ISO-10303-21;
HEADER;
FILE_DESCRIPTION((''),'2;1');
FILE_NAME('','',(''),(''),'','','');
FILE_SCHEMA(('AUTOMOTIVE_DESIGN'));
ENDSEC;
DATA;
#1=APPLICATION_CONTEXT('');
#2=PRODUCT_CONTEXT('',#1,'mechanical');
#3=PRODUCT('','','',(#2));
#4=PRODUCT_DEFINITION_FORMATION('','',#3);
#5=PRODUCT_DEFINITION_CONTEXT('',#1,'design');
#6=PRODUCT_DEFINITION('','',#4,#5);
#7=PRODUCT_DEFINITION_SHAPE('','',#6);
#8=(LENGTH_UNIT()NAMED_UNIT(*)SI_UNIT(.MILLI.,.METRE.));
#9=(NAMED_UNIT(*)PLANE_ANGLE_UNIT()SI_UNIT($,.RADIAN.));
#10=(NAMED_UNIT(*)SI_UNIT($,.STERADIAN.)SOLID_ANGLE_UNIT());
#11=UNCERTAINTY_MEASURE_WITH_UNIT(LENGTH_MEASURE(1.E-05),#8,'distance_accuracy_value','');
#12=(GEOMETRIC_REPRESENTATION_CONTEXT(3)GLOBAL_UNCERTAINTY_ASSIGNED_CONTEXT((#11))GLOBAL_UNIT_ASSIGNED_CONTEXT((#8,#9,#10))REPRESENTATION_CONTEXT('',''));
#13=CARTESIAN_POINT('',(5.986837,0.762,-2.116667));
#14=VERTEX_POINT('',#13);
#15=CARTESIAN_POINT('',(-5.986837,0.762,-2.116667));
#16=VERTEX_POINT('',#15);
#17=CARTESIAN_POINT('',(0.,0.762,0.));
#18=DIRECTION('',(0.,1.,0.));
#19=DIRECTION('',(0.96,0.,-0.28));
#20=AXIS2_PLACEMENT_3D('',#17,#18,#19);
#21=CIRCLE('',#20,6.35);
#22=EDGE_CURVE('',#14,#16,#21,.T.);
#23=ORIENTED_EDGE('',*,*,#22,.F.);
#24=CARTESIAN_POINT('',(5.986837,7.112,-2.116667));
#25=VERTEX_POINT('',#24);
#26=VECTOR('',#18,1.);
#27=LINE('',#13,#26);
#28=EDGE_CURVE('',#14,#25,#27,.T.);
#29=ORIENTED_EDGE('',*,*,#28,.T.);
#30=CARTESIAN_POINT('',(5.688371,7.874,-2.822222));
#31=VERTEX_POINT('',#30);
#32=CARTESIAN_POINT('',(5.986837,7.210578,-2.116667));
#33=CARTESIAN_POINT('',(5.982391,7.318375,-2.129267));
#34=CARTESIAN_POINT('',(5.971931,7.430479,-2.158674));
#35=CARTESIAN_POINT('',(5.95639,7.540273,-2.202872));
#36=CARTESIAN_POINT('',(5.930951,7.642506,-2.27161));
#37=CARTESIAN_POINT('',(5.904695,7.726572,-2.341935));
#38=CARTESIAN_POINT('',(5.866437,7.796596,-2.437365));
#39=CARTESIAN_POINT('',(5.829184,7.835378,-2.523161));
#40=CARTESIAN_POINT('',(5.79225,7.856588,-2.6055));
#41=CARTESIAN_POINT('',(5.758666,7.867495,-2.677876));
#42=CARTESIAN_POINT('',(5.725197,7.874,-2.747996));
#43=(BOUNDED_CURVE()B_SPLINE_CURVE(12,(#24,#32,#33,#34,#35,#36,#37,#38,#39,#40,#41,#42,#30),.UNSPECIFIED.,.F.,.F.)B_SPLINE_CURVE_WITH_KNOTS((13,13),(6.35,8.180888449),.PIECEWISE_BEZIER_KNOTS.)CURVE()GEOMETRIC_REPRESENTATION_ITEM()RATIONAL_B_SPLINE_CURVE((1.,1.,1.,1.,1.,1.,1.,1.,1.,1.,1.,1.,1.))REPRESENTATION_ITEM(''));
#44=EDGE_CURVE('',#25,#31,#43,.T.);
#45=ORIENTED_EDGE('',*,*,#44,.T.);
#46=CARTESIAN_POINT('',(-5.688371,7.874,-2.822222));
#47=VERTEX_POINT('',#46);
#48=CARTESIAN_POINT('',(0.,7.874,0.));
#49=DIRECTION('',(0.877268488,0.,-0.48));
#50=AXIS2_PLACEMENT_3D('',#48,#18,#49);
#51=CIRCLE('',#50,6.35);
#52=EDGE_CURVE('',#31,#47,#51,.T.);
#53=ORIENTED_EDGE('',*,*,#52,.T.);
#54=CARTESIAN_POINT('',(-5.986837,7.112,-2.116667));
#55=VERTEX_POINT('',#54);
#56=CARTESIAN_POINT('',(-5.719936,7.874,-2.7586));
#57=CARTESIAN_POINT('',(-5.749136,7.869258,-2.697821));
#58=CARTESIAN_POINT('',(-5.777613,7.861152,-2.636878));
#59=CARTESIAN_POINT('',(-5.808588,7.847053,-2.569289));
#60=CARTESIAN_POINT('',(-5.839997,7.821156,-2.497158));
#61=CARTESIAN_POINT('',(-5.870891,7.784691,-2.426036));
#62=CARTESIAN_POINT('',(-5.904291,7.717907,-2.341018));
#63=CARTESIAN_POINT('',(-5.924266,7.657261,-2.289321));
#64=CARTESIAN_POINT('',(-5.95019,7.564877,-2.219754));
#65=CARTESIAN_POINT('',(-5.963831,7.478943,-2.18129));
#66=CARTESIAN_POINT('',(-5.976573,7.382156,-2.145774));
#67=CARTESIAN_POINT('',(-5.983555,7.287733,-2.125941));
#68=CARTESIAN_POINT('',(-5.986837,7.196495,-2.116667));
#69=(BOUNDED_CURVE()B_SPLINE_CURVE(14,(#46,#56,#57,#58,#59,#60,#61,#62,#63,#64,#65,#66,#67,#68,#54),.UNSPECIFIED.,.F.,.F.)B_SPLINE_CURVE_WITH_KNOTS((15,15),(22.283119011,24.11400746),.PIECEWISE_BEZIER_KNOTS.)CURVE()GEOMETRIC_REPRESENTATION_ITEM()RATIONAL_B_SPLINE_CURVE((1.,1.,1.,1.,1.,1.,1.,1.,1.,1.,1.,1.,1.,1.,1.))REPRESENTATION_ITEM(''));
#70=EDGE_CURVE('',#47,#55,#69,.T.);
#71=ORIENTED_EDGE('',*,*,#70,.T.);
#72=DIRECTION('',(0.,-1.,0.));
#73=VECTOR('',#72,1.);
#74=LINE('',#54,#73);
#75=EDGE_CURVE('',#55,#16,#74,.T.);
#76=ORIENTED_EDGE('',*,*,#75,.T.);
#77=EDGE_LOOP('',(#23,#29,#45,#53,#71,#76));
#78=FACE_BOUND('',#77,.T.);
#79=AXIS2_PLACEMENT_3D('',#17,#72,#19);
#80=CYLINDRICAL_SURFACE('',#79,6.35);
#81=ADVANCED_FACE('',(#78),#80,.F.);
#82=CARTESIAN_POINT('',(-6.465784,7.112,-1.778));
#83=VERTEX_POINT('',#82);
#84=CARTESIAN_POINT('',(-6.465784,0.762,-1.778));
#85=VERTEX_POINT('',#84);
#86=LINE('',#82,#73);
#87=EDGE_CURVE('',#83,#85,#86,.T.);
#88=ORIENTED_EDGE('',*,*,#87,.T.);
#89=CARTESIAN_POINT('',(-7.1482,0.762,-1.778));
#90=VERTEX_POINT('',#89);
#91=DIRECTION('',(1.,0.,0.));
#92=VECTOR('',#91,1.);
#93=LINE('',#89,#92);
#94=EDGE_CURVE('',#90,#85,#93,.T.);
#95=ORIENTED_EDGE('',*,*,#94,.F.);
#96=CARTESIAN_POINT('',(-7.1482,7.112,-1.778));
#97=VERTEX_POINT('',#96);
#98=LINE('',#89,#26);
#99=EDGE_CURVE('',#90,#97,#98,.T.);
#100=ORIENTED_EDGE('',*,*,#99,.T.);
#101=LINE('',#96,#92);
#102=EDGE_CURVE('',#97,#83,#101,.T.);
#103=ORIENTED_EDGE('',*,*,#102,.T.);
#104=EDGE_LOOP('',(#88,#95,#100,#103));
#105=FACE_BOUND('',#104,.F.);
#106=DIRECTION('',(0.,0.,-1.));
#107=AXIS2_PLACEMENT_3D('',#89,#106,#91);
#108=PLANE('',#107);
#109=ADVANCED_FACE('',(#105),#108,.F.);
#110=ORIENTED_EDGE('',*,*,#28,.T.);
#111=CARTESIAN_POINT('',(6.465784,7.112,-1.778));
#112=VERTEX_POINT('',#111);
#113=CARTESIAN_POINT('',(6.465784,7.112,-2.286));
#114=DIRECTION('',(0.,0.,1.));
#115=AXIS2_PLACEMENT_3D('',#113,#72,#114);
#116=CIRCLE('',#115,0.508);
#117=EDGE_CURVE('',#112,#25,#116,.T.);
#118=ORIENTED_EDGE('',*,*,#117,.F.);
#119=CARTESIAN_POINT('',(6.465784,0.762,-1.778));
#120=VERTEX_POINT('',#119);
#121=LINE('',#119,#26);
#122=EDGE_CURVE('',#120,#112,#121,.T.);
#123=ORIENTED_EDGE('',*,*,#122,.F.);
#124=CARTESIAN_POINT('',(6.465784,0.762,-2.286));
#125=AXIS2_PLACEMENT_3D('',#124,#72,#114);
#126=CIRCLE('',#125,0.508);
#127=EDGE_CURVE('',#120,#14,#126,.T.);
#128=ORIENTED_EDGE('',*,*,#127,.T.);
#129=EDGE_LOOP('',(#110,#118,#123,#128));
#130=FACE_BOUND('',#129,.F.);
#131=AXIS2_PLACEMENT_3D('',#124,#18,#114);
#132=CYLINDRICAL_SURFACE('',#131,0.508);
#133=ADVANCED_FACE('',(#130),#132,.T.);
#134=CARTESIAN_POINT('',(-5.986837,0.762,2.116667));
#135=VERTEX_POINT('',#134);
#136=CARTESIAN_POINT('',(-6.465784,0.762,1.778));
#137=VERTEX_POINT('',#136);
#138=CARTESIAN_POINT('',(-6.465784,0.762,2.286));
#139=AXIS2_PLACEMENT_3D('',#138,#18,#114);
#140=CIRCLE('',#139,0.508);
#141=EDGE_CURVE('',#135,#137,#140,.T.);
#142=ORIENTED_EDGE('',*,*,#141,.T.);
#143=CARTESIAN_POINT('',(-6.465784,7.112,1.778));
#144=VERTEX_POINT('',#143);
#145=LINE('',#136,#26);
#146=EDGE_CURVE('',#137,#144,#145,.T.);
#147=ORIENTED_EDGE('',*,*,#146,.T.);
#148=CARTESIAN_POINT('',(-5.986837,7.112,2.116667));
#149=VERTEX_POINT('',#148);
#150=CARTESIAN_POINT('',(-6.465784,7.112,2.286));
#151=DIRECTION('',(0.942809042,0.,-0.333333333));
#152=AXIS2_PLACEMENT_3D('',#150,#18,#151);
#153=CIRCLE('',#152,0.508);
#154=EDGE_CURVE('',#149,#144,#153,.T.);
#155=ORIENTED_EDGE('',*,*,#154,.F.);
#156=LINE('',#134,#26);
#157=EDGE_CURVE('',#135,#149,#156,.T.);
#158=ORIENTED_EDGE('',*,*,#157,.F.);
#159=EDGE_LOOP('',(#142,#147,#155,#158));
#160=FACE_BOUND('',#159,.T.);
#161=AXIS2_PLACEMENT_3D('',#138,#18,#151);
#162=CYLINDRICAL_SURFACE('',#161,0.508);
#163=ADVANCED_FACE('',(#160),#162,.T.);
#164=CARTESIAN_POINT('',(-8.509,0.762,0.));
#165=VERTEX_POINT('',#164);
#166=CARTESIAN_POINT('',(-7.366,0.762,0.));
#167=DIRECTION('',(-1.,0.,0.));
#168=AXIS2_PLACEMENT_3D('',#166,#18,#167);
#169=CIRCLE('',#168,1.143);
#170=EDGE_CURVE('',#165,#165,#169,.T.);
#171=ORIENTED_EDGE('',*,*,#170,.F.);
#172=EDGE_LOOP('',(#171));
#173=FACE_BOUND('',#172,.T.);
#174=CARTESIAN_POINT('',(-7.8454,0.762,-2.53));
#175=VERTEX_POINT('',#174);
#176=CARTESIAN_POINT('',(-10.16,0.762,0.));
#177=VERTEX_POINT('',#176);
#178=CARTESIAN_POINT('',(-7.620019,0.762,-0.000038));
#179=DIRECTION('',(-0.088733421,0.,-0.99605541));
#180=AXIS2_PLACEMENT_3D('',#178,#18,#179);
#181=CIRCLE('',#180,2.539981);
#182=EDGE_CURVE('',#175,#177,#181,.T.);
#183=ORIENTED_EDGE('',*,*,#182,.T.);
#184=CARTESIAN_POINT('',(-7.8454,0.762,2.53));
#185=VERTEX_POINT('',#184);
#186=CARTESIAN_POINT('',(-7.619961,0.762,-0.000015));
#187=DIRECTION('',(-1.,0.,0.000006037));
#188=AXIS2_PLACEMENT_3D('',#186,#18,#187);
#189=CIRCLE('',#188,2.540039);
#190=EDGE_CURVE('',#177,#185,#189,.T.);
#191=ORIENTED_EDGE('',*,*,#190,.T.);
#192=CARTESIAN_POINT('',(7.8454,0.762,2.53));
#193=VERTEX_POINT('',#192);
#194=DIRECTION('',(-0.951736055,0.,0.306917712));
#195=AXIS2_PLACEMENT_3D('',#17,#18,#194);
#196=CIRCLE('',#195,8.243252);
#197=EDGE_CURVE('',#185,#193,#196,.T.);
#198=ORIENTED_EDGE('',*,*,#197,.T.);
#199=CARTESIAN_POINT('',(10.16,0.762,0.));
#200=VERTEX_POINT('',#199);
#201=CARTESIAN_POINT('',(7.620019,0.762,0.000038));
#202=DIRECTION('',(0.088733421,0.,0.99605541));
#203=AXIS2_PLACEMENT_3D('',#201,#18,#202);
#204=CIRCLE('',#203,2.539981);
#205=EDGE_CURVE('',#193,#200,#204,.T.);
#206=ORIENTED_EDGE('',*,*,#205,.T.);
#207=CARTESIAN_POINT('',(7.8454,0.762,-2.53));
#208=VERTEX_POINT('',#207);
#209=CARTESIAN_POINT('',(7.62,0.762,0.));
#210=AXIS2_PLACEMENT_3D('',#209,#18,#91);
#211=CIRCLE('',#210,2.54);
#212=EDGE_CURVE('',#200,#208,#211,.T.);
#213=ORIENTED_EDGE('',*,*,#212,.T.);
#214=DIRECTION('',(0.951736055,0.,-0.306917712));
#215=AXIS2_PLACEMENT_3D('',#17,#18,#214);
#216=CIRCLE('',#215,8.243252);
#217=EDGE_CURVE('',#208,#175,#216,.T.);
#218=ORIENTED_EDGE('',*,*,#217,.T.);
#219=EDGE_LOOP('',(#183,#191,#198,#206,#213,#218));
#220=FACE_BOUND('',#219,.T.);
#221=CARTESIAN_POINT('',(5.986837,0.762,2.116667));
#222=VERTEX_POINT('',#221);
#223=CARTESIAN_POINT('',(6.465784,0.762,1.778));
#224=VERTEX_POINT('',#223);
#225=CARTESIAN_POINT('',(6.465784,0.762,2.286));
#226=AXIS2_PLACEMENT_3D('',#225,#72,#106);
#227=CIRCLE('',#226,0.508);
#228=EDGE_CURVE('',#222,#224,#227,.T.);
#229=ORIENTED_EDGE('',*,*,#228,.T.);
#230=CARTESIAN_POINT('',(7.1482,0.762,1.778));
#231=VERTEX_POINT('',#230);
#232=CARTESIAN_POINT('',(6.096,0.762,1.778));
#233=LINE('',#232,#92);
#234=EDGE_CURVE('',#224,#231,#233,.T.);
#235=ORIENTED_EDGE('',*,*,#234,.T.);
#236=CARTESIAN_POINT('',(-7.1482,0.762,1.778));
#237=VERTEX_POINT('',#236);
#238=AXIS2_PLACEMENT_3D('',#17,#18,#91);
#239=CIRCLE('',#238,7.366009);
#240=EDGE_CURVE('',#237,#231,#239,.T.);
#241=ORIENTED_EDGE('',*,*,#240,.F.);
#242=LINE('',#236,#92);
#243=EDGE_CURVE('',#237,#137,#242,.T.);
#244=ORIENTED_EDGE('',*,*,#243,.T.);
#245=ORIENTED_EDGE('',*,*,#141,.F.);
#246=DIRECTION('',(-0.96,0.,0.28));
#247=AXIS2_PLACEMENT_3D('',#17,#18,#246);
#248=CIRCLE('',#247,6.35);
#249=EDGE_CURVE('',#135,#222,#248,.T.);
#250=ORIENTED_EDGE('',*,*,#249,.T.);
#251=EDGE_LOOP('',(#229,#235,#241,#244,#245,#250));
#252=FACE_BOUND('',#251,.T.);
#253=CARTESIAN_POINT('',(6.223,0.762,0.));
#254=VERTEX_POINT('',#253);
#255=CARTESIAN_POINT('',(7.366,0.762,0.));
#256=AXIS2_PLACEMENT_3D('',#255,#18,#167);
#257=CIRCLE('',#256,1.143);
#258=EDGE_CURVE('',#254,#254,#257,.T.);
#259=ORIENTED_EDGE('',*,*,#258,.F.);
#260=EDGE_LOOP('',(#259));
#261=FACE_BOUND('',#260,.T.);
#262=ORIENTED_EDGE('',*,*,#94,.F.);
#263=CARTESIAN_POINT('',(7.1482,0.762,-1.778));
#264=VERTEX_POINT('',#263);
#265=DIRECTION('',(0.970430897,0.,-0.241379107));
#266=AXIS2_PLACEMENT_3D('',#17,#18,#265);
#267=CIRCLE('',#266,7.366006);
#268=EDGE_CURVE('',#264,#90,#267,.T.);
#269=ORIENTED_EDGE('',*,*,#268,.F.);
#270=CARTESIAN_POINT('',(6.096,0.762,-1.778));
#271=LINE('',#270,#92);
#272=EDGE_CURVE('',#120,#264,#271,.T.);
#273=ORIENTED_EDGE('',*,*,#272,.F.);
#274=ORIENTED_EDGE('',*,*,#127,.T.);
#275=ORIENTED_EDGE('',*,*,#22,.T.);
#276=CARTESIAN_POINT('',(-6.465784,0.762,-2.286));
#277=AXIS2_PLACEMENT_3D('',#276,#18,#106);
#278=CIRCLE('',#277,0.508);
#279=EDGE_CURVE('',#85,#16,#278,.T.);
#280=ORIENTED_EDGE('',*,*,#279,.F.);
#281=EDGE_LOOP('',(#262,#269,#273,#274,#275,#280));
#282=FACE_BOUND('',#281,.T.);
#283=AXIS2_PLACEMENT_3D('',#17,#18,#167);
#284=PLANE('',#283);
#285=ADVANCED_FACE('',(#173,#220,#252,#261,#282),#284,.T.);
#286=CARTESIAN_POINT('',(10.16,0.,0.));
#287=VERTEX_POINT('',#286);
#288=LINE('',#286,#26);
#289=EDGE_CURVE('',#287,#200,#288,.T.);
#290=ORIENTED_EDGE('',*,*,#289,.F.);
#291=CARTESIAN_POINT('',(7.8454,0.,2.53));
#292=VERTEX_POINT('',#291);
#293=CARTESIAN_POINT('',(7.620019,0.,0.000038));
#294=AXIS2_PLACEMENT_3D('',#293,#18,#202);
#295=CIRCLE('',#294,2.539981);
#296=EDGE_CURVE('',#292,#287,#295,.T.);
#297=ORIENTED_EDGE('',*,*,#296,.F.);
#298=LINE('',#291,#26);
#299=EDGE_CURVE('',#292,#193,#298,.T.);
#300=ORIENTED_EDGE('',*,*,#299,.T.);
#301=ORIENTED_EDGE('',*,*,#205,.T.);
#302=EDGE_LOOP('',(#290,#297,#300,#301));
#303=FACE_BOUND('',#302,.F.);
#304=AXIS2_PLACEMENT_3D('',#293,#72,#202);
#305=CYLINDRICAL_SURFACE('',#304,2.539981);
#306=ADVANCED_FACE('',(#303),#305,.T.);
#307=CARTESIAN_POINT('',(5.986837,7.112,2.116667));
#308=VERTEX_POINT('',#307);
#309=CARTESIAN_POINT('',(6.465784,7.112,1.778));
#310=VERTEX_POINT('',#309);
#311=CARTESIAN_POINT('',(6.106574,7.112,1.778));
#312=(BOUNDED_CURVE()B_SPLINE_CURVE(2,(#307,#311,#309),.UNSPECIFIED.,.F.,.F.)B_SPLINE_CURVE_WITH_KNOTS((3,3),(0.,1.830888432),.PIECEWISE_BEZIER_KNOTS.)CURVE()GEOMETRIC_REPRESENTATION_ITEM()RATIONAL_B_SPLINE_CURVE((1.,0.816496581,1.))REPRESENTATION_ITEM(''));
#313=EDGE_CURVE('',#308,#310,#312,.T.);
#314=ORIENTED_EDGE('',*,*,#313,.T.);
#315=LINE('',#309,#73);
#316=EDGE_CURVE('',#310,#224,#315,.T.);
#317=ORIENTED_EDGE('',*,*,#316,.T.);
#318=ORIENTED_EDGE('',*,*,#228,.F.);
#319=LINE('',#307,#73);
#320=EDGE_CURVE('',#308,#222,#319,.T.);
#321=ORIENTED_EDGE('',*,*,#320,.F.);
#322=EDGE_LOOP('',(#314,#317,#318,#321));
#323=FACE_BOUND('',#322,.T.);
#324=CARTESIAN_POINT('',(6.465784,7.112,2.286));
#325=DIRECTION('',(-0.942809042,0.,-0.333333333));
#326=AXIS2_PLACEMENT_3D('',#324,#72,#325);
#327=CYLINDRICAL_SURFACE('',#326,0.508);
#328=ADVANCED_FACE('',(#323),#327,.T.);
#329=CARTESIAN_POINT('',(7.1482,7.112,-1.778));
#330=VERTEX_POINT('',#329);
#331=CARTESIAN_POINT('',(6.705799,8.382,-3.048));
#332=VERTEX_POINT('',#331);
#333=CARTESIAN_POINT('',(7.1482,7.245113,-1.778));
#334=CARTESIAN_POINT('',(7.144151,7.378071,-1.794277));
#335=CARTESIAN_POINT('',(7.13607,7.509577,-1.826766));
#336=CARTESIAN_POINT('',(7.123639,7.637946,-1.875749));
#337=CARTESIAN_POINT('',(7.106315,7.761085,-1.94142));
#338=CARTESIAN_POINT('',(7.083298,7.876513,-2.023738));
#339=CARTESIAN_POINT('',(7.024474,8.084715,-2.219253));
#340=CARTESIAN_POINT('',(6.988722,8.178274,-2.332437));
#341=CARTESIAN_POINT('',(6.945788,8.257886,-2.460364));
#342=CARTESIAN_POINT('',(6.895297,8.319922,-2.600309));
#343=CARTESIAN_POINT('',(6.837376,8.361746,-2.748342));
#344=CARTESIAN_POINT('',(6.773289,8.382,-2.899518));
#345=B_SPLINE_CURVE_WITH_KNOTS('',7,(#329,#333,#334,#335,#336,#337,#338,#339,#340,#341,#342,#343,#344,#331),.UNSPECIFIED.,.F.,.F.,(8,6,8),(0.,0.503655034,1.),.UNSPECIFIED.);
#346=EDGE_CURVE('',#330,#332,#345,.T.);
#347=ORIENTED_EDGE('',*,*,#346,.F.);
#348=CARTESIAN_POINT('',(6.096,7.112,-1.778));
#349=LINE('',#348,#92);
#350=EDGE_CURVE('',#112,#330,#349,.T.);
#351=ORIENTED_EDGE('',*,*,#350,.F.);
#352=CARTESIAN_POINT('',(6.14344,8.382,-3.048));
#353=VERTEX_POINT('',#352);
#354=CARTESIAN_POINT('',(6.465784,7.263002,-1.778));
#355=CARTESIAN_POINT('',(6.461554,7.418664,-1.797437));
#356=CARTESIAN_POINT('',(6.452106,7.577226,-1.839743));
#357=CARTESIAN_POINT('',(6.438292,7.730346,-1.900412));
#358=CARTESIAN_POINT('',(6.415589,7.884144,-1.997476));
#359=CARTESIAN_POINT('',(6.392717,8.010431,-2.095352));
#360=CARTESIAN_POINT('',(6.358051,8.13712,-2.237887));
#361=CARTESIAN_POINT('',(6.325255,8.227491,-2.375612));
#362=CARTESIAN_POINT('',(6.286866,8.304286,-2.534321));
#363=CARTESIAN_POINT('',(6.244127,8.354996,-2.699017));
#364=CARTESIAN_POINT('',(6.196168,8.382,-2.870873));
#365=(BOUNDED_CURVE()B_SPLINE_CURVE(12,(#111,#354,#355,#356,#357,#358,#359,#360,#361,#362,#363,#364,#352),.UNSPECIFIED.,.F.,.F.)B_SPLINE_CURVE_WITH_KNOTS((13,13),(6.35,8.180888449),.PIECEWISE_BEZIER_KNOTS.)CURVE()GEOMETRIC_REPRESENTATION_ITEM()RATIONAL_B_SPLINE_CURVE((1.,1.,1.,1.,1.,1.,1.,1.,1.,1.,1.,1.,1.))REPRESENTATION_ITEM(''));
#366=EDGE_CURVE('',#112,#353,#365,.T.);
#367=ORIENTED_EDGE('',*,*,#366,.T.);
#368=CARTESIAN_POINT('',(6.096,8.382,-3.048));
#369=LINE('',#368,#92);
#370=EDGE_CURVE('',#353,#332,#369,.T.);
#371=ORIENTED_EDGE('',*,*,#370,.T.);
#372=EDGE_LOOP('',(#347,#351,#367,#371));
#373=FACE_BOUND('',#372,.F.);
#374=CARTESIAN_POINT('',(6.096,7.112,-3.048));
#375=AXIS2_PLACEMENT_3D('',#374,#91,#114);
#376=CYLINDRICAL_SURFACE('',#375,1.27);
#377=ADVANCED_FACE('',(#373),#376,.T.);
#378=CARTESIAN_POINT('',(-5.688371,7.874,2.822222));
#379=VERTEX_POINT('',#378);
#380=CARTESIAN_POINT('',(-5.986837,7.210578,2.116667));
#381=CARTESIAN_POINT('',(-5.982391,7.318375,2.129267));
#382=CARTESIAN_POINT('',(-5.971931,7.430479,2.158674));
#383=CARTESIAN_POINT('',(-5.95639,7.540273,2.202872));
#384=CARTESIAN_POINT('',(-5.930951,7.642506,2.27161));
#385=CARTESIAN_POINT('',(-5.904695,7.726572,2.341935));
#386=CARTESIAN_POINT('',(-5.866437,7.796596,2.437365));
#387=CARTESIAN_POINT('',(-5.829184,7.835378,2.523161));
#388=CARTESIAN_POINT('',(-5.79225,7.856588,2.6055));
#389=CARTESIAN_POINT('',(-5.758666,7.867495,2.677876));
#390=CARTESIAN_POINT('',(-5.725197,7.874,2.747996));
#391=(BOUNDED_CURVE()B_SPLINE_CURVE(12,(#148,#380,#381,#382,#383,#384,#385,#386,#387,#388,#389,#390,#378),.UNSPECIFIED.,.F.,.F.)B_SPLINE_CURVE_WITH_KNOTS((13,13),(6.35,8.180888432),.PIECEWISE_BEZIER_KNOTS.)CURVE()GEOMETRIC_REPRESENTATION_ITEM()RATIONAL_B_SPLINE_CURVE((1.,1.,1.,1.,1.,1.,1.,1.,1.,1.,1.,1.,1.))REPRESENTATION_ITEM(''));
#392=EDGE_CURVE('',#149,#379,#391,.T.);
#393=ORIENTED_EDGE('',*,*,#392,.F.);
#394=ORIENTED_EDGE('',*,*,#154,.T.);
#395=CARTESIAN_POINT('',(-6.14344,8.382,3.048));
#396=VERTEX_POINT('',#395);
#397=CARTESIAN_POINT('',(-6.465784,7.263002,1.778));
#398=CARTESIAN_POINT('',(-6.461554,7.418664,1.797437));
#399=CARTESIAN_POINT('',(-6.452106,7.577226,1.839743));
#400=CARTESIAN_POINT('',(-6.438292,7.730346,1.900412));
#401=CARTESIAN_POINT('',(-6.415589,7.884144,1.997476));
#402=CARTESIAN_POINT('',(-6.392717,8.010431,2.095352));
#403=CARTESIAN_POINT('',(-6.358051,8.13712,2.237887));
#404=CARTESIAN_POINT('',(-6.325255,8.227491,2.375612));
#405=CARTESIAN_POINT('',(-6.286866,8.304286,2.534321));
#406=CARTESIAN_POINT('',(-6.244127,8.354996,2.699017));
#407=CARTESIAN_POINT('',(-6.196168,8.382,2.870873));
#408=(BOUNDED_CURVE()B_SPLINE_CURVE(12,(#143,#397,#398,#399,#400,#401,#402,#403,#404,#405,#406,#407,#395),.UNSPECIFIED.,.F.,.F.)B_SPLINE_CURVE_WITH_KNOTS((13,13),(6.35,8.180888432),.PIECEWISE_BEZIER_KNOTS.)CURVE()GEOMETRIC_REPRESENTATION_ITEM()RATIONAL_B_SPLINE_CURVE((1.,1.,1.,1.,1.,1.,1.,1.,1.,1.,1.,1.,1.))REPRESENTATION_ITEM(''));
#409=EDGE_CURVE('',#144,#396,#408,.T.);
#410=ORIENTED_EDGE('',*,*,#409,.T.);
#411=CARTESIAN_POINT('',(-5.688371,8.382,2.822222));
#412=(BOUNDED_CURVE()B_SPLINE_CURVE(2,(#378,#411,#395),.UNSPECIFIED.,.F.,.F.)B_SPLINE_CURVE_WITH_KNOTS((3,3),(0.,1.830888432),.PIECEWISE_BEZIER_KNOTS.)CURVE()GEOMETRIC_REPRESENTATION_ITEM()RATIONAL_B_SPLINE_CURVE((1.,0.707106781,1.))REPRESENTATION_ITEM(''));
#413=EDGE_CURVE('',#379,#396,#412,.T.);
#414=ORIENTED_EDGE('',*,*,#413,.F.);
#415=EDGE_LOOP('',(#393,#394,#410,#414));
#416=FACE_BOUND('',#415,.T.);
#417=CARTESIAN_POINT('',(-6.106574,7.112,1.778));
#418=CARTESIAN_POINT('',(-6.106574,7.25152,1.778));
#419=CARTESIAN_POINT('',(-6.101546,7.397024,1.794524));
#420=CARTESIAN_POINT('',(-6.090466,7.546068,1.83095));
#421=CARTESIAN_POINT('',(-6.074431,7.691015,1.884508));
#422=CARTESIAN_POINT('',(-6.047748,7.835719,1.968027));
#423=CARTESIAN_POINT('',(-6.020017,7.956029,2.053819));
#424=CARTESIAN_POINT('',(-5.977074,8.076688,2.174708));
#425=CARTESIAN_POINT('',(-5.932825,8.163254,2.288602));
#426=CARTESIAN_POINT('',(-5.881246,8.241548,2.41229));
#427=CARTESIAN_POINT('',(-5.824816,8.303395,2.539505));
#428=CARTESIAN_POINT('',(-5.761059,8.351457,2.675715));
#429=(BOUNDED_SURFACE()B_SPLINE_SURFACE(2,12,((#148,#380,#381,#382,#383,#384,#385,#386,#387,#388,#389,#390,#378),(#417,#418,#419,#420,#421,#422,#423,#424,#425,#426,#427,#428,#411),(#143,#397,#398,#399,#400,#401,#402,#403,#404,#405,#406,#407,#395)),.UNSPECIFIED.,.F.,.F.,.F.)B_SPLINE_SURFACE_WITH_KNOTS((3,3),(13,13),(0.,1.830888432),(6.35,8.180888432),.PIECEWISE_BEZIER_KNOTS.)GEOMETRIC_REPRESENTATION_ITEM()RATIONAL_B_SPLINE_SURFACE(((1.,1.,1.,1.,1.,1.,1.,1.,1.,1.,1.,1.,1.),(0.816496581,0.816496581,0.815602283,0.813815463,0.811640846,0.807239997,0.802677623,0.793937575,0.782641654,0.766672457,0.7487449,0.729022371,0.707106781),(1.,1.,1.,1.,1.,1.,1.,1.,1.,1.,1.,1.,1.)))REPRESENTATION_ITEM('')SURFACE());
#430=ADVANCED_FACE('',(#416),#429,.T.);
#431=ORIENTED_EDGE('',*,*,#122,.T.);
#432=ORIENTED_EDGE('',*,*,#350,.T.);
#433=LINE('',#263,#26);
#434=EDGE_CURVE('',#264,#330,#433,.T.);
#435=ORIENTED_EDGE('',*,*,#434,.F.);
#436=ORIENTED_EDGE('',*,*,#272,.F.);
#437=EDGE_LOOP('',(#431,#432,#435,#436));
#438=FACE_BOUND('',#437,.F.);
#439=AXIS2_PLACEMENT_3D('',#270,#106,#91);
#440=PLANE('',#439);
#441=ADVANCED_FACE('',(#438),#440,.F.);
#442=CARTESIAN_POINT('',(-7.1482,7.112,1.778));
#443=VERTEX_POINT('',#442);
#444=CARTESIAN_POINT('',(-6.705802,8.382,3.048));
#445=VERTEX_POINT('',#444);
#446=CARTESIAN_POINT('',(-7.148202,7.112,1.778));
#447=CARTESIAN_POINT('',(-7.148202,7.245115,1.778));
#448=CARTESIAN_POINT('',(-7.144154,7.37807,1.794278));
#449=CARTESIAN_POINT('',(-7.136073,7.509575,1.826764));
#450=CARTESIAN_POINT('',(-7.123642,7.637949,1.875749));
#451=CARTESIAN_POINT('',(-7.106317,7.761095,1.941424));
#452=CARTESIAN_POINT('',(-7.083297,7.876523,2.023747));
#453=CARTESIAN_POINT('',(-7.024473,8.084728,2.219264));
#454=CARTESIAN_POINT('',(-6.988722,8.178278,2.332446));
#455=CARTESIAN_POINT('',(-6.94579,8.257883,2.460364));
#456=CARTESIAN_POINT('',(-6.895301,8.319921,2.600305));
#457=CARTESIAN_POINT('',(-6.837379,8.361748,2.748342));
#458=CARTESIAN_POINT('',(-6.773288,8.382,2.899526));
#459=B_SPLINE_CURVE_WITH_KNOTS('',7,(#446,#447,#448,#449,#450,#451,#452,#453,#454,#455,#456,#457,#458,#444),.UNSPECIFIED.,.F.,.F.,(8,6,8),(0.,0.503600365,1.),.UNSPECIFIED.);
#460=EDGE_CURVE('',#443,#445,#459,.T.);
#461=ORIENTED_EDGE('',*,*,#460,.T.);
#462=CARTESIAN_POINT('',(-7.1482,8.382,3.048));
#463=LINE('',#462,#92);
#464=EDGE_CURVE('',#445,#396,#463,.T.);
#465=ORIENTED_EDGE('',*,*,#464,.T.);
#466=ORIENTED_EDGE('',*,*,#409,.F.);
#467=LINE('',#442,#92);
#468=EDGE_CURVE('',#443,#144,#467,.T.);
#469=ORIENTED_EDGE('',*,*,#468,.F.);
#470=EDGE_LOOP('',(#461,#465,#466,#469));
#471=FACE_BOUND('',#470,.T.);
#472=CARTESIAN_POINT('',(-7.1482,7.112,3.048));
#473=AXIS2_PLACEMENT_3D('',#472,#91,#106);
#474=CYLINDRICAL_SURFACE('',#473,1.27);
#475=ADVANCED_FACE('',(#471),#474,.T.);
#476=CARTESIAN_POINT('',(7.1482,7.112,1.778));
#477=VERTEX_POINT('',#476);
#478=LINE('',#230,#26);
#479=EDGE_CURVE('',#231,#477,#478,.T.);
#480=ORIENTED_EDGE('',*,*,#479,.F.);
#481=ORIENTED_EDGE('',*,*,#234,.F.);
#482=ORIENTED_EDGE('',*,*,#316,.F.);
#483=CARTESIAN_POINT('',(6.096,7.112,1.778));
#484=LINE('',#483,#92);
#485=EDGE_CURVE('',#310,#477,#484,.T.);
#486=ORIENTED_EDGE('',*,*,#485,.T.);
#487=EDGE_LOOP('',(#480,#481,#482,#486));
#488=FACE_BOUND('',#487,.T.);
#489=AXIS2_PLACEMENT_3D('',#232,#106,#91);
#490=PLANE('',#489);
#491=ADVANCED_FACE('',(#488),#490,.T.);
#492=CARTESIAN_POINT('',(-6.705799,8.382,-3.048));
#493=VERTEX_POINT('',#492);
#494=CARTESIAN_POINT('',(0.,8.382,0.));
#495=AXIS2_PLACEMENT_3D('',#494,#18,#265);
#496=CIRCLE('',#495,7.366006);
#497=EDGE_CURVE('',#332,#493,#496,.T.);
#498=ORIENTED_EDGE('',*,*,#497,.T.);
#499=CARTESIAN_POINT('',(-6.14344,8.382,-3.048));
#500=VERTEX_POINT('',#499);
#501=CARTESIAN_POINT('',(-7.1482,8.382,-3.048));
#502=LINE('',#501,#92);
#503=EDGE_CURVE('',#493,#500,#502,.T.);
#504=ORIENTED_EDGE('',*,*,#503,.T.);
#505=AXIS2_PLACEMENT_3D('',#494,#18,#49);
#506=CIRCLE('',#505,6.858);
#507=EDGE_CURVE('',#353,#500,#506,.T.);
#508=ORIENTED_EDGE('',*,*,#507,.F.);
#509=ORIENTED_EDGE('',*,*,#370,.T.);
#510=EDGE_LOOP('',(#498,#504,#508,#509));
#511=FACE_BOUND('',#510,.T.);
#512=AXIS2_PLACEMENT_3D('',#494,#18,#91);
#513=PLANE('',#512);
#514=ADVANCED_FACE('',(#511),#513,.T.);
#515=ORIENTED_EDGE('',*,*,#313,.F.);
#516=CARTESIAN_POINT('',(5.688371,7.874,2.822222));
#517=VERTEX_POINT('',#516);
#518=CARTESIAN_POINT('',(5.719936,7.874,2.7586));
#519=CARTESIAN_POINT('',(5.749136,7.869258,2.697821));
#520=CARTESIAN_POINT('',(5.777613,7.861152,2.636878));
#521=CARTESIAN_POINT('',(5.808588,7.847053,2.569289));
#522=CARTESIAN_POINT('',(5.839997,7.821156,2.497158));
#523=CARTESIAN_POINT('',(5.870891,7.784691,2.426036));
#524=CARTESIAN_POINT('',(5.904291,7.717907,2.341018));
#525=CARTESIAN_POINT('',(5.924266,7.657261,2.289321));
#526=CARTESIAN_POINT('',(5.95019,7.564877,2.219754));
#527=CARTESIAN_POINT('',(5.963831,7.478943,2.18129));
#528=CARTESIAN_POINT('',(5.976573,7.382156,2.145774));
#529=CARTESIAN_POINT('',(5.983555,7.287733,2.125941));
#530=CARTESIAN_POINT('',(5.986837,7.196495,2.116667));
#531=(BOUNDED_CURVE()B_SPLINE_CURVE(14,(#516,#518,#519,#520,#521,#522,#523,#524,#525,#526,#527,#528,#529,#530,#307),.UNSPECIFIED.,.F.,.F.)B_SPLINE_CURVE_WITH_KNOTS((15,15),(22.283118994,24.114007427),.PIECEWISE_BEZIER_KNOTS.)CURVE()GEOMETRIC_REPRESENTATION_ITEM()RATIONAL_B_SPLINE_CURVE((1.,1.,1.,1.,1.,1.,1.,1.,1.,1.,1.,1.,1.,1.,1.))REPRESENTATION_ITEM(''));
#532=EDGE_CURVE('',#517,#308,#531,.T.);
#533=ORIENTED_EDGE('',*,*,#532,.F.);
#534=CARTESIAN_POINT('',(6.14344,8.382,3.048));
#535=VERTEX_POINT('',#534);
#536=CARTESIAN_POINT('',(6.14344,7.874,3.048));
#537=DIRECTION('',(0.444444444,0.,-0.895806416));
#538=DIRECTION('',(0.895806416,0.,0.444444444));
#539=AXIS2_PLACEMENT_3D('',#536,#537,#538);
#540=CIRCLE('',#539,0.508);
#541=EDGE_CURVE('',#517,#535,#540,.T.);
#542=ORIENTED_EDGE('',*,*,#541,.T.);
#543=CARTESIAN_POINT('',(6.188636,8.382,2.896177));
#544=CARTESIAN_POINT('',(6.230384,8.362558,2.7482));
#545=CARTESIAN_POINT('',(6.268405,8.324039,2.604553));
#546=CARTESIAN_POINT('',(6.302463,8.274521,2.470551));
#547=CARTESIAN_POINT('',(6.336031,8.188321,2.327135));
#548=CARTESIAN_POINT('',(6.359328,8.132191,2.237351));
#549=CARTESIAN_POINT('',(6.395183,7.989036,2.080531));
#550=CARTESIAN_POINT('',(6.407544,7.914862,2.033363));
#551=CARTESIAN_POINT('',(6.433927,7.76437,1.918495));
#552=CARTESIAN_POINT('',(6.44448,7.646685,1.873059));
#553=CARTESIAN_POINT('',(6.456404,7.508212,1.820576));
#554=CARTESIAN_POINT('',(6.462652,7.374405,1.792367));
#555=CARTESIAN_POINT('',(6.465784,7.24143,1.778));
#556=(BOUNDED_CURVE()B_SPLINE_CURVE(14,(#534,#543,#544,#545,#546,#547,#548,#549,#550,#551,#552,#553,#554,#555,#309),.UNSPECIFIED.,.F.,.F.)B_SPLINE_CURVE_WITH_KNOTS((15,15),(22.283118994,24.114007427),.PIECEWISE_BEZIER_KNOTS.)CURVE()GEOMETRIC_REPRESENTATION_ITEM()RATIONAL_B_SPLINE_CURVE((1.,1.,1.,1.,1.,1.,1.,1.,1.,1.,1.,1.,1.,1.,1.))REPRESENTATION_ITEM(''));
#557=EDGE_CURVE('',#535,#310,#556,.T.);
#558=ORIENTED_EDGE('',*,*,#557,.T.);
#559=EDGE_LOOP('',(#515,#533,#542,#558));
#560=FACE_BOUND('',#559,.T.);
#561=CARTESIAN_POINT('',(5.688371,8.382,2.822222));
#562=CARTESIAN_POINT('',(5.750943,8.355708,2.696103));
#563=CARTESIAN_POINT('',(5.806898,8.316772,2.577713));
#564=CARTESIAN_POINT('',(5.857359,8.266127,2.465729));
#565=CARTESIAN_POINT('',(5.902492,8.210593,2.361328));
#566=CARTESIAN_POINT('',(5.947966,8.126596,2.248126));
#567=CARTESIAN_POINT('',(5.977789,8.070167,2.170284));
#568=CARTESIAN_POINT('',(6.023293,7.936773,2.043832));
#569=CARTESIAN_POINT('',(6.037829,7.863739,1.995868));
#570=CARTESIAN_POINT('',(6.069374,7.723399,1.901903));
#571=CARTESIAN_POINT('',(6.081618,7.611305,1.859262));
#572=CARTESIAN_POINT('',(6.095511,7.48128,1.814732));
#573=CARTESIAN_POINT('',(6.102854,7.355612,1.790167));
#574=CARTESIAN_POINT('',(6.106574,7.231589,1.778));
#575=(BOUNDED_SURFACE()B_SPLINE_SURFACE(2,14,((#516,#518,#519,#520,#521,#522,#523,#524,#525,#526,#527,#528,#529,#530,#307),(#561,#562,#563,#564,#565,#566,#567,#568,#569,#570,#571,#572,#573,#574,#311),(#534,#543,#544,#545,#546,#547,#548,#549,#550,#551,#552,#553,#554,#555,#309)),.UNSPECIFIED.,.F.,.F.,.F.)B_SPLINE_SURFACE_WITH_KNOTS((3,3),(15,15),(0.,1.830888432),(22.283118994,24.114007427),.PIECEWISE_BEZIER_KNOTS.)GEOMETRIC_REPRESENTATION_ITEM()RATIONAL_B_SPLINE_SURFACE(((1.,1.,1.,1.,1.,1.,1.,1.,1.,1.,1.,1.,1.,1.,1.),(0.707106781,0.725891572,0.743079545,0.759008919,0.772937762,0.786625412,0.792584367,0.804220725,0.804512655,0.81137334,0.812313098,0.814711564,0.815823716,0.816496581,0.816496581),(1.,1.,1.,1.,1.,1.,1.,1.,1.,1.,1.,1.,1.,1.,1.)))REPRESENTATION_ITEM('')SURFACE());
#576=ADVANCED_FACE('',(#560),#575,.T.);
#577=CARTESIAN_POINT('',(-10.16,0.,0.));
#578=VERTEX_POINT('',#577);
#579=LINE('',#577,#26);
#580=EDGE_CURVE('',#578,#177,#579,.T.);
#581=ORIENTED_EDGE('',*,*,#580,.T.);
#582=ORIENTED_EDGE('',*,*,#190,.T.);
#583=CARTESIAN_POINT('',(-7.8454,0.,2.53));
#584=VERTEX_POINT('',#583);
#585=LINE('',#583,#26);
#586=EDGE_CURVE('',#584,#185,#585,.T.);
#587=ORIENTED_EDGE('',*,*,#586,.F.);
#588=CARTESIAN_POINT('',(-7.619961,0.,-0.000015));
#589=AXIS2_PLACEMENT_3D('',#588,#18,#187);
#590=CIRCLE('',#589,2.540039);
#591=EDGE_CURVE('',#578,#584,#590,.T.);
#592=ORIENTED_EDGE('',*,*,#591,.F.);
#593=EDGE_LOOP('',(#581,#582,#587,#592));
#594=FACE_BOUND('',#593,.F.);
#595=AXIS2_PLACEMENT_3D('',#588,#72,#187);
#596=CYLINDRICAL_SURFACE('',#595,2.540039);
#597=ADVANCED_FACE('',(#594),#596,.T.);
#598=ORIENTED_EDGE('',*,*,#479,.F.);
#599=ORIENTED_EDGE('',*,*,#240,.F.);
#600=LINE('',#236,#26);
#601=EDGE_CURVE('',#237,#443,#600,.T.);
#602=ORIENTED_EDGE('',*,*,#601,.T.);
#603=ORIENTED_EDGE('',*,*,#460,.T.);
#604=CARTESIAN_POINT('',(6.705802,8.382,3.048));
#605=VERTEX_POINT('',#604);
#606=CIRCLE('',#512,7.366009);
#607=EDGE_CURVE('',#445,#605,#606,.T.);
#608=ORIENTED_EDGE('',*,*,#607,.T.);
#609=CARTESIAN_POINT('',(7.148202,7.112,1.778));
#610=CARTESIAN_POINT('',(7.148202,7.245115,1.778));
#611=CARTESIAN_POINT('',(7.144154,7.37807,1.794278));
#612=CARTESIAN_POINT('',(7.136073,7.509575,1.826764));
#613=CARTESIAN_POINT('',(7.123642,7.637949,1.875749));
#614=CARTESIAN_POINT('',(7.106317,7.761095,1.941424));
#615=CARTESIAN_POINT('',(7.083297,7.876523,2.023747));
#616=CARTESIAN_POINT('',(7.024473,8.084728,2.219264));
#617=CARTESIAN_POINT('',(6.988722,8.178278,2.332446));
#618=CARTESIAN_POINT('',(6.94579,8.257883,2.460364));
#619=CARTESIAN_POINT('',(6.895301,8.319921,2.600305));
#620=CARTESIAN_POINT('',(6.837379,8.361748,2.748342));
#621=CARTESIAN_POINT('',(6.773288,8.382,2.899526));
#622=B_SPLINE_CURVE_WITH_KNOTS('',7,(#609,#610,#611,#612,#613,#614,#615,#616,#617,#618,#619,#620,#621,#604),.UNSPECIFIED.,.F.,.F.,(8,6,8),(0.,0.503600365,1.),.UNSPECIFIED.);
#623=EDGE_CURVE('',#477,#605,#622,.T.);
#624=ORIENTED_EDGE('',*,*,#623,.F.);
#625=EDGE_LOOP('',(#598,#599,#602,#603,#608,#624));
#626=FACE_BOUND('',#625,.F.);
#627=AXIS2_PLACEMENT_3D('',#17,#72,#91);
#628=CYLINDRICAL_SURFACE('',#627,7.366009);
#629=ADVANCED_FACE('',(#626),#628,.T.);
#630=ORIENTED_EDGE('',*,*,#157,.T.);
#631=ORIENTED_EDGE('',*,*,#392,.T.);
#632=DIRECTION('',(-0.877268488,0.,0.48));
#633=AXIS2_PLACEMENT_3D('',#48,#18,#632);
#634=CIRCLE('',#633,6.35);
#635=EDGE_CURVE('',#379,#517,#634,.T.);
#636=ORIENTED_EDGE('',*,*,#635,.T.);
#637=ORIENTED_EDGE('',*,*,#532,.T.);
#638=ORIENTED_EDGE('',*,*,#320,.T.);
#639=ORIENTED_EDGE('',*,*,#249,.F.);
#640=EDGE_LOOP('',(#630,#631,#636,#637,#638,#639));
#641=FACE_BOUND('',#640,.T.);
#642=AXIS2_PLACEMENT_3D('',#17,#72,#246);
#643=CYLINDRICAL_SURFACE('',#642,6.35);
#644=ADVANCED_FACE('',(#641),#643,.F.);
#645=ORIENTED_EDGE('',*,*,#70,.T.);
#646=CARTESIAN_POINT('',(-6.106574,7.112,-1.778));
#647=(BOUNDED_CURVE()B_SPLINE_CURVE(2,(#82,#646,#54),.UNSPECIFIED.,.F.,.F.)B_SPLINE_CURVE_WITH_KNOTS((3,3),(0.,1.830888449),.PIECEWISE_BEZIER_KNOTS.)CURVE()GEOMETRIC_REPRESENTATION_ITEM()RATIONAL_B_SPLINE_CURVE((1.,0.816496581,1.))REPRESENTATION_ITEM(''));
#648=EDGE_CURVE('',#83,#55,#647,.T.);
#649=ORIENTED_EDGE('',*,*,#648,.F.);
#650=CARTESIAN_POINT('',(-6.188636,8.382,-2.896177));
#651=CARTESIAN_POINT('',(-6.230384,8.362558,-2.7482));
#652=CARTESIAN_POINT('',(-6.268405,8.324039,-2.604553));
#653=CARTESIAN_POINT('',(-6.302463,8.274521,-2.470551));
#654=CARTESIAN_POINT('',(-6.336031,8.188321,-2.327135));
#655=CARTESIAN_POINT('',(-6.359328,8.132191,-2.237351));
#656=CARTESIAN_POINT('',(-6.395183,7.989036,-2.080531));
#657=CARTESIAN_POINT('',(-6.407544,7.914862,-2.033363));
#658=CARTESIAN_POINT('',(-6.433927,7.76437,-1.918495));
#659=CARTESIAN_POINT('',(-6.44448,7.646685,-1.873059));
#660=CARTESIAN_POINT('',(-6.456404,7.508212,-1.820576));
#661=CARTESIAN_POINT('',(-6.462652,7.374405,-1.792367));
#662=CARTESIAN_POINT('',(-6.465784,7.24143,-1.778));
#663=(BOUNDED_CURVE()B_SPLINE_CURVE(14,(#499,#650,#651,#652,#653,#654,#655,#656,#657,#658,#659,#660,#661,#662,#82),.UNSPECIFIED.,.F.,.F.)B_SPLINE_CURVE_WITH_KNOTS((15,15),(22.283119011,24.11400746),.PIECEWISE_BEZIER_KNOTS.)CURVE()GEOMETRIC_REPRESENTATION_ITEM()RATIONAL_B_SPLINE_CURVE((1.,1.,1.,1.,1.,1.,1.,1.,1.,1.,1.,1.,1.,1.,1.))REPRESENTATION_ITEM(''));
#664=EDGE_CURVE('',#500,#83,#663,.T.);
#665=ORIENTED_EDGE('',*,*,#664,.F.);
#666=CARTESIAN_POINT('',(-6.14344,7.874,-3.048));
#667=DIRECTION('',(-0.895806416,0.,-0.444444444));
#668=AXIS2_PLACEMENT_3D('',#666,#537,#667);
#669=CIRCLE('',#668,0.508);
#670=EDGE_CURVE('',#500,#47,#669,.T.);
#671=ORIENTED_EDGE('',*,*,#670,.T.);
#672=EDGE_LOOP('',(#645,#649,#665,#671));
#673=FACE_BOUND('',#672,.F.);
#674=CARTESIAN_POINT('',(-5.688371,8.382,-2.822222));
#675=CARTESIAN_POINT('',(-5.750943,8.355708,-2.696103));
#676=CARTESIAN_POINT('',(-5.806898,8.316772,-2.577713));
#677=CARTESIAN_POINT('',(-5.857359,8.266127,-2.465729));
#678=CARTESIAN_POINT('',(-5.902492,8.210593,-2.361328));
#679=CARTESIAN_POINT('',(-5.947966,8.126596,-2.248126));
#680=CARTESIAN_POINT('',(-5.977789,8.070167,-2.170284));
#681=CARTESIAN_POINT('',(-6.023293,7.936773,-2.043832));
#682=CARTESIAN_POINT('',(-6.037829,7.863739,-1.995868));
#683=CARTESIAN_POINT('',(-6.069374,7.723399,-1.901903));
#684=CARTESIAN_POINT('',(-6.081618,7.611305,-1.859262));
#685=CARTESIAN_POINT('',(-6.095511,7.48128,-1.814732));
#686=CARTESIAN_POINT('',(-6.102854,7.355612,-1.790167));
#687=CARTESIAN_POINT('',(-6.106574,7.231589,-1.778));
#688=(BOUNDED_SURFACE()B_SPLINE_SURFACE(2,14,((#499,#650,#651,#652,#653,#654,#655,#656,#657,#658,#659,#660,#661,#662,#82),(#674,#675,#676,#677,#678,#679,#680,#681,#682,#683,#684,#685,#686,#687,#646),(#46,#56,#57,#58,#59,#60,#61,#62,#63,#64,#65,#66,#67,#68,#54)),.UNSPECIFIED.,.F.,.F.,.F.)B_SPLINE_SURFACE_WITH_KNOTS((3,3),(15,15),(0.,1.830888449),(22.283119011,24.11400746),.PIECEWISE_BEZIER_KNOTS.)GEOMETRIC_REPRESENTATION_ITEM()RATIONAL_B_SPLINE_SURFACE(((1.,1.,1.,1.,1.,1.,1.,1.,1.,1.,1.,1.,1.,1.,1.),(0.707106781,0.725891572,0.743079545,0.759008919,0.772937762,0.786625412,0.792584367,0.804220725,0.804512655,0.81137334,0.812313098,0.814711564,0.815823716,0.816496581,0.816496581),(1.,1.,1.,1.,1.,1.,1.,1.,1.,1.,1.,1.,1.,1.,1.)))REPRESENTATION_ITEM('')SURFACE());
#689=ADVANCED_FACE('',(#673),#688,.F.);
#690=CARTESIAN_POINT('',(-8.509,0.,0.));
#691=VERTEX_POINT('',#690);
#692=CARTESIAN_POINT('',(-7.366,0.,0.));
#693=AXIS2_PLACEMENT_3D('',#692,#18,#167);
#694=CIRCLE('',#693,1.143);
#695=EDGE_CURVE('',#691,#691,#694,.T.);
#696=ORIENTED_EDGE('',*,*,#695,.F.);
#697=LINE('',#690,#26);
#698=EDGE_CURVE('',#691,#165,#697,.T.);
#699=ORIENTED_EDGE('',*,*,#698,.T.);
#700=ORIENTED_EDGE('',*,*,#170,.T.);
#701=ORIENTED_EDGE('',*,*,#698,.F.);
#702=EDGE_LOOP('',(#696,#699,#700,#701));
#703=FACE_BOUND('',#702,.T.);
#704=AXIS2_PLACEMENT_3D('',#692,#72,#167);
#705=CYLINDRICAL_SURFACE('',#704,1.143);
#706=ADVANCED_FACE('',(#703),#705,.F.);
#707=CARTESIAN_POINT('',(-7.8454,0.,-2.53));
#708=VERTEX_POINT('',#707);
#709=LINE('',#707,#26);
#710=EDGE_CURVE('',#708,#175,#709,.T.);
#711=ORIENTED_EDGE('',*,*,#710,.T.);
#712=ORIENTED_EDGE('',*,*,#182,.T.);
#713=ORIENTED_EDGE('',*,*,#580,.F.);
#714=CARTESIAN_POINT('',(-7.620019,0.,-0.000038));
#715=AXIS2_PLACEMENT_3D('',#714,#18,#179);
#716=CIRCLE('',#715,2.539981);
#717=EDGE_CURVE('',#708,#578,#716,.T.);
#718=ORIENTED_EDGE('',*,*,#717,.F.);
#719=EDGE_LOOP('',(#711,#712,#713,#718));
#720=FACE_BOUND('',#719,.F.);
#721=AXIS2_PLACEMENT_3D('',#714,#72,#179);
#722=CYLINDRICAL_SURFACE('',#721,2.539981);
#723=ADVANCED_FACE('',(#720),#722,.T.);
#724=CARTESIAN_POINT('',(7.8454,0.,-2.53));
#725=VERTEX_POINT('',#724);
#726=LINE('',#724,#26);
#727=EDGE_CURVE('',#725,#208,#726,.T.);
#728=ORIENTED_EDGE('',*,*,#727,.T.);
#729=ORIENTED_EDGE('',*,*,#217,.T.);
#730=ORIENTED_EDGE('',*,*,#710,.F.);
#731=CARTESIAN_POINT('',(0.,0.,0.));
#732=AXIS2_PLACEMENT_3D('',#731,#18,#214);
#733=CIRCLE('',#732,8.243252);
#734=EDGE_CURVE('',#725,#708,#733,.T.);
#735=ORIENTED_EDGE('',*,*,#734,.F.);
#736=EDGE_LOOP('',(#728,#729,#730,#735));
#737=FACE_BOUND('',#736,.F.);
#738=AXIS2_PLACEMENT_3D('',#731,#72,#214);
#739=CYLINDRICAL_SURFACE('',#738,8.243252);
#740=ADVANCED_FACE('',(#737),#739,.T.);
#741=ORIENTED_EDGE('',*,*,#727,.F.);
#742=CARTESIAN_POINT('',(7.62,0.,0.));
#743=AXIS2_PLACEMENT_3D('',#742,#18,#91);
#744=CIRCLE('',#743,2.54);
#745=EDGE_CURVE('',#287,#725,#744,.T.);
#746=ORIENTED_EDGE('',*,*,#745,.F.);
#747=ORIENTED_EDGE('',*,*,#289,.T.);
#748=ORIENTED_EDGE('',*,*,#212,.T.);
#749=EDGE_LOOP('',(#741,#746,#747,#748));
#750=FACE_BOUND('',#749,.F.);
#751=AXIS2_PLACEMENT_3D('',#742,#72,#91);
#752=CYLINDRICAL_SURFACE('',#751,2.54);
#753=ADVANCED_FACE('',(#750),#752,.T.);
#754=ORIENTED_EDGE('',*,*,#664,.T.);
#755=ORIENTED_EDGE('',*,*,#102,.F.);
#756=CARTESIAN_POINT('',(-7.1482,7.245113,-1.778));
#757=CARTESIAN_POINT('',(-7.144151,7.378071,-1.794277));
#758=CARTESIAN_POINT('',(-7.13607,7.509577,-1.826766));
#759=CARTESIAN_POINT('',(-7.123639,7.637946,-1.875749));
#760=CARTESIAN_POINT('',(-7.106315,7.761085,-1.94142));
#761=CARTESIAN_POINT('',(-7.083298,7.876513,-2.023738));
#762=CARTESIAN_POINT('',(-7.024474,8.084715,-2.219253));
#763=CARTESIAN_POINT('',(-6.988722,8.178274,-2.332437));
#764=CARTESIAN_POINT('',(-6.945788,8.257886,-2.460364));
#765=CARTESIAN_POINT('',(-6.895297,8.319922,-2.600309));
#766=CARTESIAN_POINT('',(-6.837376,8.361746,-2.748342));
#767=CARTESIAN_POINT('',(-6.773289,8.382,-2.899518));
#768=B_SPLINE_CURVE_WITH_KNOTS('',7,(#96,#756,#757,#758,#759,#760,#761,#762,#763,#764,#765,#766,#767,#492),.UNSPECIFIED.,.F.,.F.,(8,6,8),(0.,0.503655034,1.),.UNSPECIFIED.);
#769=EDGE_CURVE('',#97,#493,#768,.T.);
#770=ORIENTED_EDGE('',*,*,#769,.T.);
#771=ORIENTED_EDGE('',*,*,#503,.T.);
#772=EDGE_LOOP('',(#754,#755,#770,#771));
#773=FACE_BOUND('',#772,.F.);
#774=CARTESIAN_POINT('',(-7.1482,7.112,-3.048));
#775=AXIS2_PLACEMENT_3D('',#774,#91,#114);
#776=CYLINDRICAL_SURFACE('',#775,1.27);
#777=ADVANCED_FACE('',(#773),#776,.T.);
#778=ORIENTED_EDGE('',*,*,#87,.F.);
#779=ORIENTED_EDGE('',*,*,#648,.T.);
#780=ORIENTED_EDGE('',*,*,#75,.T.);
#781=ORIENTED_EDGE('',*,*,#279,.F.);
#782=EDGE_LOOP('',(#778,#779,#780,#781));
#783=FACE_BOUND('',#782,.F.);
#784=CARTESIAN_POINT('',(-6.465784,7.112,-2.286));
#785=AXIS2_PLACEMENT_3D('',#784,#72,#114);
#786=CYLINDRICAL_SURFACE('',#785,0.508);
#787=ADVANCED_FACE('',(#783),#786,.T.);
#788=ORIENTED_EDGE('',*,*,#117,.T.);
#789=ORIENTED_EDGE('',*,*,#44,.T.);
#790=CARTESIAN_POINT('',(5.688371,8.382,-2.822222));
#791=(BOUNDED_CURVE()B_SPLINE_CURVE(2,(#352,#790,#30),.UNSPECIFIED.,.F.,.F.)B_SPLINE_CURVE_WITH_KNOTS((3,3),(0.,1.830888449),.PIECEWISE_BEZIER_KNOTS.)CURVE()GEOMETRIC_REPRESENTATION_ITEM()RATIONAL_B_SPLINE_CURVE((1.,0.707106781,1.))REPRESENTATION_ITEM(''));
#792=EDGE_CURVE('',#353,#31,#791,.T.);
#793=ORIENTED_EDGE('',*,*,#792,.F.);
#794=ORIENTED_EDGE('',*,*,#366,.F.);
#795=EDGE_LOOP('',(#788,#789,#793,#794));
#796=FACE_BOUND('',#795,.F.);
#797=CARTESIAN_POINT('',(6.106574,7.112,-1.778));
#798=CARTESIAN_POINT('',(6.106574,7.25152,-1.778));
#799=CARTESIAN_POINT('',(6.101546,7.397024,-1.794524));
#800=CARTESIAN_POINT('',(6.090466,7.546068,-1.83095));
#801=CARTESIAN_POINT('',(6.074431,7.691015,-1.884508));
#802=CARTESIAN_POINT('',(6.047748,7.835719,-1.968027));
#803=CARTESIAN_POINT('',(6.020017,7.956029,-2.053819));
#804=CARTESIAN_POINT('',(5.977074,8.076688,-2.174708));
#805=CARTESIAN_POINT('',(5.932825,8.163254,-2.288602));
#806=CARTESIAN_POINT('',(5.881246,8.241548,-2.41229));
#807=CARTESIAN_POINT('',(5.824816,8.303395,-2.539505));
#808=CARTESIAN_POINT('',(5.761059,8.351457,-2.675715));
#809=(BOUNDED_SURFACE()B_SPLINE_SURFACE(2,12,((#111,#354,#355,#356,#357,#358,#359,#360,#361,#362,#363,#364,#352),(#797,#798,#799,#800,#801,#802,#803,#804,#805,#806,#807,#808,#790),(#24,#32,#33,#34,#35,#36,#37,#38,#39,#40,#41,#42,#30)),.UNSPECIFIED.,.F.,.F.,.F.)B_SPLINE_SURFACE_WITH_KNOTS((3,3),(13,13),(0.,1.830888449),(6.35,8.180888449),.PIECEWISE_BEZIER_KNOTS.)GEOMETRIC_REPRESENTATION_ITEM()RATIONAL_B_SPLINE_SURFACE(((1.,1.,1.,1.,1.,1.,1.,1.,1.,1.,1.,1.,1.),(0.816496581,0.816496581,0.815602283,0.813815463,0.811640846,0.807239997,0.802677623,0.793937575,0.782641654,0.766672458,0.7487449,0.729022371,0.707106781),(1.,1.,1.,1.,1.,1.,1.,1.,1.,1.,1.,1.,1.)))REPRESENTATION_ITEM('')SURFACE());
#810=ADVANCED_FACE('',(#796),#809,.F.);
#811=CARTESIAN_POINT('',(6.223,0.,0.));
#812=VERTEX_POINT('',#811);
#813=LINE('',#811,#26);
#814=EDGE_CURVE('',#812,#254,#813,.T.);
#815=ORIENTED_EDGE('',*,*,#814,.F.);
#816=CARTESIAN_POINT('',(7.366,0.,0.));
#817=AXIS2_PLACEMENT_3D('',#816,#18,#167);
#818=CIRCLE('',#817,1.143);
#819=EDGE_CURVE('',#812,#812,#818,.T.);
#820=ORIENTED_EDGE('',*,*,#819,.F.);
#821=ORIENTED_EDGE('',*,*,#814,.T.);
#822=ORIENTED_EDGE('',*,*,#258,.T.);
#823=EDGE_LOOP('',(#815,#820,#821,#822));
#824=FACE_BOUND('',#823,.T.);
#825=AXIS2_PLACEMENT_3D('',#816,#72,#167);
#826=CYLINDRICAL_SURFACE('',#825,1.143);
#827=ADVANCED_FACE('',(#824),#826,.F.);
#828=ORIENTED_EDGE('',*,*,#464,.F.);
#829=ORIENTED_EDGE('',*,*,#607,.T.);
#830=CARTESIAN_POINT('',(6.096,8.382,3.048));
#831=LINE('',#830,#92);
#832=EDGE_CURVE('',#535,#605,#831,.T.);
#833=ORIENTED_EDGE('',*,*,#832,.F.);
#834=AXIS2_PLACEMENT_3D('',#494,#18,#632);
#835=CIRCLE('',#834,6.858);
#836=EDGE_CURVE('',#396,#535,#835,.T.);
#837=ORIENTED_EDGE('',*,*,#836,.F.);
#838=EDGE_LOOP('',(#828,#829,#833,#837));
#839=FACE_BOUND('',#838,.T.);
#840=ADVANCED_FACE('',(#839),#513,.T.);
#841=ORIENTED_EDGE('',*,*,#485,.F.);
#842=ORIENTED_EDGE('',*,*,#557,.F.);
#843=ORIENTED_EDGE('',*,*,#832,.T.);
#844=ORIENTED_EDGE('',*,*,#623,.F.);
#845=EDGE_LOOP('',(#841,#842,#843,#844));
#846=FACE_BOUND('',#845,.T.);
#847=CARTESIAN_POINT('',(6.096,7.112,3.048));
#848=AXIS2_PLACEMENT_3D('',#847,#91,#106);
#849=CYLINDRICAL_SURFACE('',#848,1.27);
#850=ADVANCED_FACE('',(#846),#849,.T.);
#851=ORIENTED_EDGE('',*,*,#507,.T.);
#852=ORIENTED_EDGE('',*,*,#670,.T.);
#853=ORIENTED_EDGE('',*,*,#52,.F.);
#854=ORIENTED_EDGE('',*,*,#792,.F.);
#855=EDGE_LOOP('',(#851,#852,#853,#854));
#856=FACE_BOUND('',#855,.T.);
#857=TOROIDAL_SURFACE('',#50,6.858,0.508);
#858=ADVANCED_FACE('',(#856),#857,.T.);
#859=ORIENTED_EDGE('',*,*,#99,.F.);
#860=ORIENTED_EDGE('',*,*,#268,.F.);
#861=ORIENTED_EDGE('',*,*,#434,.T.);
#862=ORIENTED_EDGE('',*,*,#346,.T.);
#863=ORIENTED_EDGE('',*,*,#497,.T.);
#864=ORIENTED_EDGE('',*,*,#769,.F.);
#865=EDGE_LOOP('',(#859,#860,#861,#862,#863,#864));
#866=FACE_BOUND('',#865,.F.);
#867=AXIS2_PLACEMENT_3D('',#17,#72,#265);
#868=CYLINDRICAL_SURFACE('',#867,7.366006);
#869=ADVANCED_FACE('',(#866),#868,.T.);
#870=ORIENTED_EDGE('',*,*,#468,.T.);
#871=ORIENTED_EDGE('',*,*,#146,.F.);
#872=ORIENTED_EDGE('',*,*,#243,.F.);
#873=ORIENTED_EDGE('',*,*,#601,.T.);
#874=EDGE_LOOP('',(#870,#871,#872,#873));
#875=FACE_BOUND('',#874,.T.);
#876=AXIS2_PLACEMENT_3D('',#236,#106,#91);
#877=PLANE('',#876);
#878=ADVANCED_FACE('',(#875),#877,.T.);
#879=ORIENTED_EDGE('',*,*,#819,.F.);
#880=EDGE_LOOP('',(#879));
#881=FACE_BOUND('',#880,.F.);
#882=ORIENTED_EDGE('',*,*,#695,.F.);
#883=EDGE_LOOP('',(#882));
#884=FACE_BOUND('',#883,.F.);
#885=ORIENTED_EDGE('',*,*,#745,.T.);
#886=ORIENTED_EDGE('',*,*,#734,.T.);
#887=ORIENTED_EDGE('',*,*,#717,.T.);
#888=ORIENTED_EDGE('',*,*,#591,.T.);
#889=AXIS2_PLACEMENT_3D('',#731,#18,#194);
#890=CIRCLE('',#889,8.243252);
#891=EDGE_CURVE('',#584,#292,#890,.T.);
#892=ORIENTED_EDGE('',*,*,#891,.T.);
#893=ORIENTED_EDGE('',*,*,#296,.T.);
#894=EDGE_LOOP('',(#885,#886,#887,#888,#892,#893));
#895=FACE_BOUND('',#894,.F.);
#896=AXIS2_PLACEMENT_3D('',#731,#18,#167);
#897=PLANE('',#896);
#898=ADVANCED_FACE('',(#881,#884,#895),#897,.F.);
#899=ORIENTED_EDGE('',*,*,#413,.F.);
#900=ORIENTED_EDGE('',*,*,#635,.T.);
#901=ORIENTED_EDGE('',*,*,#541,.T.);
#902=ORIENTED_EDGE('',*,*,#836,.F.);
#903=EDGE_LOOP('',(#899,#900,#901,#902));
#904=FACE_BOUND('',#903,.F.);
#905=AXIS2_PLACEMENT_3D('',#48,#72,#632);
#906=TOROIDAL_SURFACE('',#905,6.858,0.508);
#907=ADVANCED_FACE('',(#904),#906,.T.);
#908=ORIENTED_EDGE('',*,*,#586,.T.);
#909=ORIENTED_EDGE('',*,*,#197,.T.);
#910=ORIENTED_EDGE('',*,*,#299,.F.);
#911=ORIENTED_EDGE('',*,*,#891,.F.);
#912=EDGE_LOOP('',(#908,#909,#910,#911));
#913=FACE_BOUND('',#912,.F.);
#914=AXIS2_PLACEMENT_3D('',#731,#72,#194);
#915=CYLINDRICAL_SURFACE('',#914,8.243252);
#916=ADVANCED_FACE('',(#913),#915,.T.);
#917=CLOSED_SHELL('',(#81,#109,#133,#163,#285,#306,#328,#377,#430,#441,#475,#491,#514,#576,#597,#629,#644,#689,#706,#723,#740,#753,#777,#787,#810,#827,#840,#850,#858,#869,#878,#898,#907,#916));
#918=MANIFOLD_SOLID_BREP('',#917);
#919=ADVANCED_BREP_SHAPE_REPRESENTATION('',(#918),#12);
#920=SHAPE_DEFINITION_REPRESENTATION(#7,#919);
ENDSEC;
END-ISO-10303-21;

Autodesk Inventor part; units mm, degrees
ref_plane "YZ Plane" through (0, 0, 0) normal (1, 0, 0) x (0, 1, 0)
ref_plane "XZ Plane" through (0, 0, 0) normal (0, 1, 0) x (-1, 0, 0)
ref_plane "XY Plane" through (0, 0, 0) normal (0, 0, 1) x (1, 0, 0)
sketch "Sketch1" plane through (0, 0, 0) normal (0, 1, 0) x (-1, 0, 0)
  circle A0 centre (-7.366, 0) radius 1.143
  circle A1 centre (7.366, 0) radius 1.143
  line L0 (10.16, 0) -> (10.16, 0)
  line L1 (10.16, 0) -> (10.16, 0)
  line L2 (-10.16, 0) -> (-10.16, 0)
  line L3 (-10.16, 0) -> (-10.16, 0)
  arc A2 (-10.16, 0) -> (-7.62, -2.54) centre (-7.62, 0) ccw
  arc A3 (-7.8454, 2.53) -> (-10.16, 0) centre (-7.62, 0) ccw
  arc A4 (10.16, 0) -> (7.8454, 2.53) centre (7.62, 0) ccw
  arc A5 (7.8454, -2.53) -> (10.16, 0) centre (7.62, 0) ccw
  arc A6 (7.8454, 2.53) -> (-7.8454, 2.53) centre (0, 0) ccw
  arc A7 (-7.8454, -2.53) -> (7.8454, -2.53) centre (0, 0) ccw
  dimension "d2" = 2.286
  dimension "d15" = 2.54
  dimension "d16" = 2.54
  dimension "d17" = 2.54
extrude "Extrusion1" add sketch "Sketch1" along normal blind 0.762
sketch "Sketch2" plane through (0, 0.762, 0) normal (0, 1, 0) x (1, 0, 0)
  point P0 (0, 0)
sketch "Sketch3" plane through (0, 0.762, 0) normal (0, 1, 0) x (1, 0, 0)
  line L0 (-7.2575, -1.2599) -> (-7.2559, -1.2599)
  line L1 (-7.2559, -1.2599) -> (-7.2559, -1.269)
  line L2 (-7.1482, -1.778) -> (-6.096, -1.778)
  line L3 (-7.2559, 1.269) -> (-7.2559, 1.27)
  line L4 (-7.1482, 1.778) -> (-6.096, 1.778)
  arc A0 (7.1482, 1.778) -> (-7.1482, 1.778) centre (0, 0) ccw
  arc A1 (-7.2557, 1.27) -> (-7.2559, 1.269) centre (0, 0) ccw
  arc A2 (-7.2575, -1.2599) -> (-7.2559, -1.269) centre (0, 0) ccw
  arc A3 (-7.1482, -1.778) -> (7.1482, -1.778) centre (0, 0) ccw
  line L5 (-7.2575, -1.2599) -> (-7.2559, -1.2599)
  line L6 (6.096, -1.778) -> (7.1482, -1.778)
  line L7 (6.096, 1.778) -> (7.1482, 1.778)
  arc A4 (6.096, 1.778) -> (-6.096, 1.778) centre (0, 0) ccw
  arc A5 (-6.096, -1.778) -> (6.096, -1.778) centre (0, 0) ccw
extrude "Extrusion2" add sketch "Sketch3" along normal blind 7.62 contours A0 L7 A4 L4 | L2 A5 L6 A1
fillet "Fillet1" radius 1.27 4 edges at (6.6221, 8.382, 1.778) (-6.6221, 8.382, 1.778) (-6.6221, 8.382, -1.778) (6.6221, 8.382, -1.778)
fillet "Fillet2" radius 0.508 10 edges at (5.9835, 7.9854, -2.126) (6.096, 3.937, -1.778) (-5.9838, 7.9847, -2.1254) (-6.096, 3.937, -1.778) (0, 8.382, -6.35) (-5.9835, 7.9854, 2.126) (-6.096, 3.937, 1.778) (5.9835, 7.9854, 2.126) (6.096, 3.937, 1.778) (0, 8.382, 6.35)
properties part number "polulu_caster"
